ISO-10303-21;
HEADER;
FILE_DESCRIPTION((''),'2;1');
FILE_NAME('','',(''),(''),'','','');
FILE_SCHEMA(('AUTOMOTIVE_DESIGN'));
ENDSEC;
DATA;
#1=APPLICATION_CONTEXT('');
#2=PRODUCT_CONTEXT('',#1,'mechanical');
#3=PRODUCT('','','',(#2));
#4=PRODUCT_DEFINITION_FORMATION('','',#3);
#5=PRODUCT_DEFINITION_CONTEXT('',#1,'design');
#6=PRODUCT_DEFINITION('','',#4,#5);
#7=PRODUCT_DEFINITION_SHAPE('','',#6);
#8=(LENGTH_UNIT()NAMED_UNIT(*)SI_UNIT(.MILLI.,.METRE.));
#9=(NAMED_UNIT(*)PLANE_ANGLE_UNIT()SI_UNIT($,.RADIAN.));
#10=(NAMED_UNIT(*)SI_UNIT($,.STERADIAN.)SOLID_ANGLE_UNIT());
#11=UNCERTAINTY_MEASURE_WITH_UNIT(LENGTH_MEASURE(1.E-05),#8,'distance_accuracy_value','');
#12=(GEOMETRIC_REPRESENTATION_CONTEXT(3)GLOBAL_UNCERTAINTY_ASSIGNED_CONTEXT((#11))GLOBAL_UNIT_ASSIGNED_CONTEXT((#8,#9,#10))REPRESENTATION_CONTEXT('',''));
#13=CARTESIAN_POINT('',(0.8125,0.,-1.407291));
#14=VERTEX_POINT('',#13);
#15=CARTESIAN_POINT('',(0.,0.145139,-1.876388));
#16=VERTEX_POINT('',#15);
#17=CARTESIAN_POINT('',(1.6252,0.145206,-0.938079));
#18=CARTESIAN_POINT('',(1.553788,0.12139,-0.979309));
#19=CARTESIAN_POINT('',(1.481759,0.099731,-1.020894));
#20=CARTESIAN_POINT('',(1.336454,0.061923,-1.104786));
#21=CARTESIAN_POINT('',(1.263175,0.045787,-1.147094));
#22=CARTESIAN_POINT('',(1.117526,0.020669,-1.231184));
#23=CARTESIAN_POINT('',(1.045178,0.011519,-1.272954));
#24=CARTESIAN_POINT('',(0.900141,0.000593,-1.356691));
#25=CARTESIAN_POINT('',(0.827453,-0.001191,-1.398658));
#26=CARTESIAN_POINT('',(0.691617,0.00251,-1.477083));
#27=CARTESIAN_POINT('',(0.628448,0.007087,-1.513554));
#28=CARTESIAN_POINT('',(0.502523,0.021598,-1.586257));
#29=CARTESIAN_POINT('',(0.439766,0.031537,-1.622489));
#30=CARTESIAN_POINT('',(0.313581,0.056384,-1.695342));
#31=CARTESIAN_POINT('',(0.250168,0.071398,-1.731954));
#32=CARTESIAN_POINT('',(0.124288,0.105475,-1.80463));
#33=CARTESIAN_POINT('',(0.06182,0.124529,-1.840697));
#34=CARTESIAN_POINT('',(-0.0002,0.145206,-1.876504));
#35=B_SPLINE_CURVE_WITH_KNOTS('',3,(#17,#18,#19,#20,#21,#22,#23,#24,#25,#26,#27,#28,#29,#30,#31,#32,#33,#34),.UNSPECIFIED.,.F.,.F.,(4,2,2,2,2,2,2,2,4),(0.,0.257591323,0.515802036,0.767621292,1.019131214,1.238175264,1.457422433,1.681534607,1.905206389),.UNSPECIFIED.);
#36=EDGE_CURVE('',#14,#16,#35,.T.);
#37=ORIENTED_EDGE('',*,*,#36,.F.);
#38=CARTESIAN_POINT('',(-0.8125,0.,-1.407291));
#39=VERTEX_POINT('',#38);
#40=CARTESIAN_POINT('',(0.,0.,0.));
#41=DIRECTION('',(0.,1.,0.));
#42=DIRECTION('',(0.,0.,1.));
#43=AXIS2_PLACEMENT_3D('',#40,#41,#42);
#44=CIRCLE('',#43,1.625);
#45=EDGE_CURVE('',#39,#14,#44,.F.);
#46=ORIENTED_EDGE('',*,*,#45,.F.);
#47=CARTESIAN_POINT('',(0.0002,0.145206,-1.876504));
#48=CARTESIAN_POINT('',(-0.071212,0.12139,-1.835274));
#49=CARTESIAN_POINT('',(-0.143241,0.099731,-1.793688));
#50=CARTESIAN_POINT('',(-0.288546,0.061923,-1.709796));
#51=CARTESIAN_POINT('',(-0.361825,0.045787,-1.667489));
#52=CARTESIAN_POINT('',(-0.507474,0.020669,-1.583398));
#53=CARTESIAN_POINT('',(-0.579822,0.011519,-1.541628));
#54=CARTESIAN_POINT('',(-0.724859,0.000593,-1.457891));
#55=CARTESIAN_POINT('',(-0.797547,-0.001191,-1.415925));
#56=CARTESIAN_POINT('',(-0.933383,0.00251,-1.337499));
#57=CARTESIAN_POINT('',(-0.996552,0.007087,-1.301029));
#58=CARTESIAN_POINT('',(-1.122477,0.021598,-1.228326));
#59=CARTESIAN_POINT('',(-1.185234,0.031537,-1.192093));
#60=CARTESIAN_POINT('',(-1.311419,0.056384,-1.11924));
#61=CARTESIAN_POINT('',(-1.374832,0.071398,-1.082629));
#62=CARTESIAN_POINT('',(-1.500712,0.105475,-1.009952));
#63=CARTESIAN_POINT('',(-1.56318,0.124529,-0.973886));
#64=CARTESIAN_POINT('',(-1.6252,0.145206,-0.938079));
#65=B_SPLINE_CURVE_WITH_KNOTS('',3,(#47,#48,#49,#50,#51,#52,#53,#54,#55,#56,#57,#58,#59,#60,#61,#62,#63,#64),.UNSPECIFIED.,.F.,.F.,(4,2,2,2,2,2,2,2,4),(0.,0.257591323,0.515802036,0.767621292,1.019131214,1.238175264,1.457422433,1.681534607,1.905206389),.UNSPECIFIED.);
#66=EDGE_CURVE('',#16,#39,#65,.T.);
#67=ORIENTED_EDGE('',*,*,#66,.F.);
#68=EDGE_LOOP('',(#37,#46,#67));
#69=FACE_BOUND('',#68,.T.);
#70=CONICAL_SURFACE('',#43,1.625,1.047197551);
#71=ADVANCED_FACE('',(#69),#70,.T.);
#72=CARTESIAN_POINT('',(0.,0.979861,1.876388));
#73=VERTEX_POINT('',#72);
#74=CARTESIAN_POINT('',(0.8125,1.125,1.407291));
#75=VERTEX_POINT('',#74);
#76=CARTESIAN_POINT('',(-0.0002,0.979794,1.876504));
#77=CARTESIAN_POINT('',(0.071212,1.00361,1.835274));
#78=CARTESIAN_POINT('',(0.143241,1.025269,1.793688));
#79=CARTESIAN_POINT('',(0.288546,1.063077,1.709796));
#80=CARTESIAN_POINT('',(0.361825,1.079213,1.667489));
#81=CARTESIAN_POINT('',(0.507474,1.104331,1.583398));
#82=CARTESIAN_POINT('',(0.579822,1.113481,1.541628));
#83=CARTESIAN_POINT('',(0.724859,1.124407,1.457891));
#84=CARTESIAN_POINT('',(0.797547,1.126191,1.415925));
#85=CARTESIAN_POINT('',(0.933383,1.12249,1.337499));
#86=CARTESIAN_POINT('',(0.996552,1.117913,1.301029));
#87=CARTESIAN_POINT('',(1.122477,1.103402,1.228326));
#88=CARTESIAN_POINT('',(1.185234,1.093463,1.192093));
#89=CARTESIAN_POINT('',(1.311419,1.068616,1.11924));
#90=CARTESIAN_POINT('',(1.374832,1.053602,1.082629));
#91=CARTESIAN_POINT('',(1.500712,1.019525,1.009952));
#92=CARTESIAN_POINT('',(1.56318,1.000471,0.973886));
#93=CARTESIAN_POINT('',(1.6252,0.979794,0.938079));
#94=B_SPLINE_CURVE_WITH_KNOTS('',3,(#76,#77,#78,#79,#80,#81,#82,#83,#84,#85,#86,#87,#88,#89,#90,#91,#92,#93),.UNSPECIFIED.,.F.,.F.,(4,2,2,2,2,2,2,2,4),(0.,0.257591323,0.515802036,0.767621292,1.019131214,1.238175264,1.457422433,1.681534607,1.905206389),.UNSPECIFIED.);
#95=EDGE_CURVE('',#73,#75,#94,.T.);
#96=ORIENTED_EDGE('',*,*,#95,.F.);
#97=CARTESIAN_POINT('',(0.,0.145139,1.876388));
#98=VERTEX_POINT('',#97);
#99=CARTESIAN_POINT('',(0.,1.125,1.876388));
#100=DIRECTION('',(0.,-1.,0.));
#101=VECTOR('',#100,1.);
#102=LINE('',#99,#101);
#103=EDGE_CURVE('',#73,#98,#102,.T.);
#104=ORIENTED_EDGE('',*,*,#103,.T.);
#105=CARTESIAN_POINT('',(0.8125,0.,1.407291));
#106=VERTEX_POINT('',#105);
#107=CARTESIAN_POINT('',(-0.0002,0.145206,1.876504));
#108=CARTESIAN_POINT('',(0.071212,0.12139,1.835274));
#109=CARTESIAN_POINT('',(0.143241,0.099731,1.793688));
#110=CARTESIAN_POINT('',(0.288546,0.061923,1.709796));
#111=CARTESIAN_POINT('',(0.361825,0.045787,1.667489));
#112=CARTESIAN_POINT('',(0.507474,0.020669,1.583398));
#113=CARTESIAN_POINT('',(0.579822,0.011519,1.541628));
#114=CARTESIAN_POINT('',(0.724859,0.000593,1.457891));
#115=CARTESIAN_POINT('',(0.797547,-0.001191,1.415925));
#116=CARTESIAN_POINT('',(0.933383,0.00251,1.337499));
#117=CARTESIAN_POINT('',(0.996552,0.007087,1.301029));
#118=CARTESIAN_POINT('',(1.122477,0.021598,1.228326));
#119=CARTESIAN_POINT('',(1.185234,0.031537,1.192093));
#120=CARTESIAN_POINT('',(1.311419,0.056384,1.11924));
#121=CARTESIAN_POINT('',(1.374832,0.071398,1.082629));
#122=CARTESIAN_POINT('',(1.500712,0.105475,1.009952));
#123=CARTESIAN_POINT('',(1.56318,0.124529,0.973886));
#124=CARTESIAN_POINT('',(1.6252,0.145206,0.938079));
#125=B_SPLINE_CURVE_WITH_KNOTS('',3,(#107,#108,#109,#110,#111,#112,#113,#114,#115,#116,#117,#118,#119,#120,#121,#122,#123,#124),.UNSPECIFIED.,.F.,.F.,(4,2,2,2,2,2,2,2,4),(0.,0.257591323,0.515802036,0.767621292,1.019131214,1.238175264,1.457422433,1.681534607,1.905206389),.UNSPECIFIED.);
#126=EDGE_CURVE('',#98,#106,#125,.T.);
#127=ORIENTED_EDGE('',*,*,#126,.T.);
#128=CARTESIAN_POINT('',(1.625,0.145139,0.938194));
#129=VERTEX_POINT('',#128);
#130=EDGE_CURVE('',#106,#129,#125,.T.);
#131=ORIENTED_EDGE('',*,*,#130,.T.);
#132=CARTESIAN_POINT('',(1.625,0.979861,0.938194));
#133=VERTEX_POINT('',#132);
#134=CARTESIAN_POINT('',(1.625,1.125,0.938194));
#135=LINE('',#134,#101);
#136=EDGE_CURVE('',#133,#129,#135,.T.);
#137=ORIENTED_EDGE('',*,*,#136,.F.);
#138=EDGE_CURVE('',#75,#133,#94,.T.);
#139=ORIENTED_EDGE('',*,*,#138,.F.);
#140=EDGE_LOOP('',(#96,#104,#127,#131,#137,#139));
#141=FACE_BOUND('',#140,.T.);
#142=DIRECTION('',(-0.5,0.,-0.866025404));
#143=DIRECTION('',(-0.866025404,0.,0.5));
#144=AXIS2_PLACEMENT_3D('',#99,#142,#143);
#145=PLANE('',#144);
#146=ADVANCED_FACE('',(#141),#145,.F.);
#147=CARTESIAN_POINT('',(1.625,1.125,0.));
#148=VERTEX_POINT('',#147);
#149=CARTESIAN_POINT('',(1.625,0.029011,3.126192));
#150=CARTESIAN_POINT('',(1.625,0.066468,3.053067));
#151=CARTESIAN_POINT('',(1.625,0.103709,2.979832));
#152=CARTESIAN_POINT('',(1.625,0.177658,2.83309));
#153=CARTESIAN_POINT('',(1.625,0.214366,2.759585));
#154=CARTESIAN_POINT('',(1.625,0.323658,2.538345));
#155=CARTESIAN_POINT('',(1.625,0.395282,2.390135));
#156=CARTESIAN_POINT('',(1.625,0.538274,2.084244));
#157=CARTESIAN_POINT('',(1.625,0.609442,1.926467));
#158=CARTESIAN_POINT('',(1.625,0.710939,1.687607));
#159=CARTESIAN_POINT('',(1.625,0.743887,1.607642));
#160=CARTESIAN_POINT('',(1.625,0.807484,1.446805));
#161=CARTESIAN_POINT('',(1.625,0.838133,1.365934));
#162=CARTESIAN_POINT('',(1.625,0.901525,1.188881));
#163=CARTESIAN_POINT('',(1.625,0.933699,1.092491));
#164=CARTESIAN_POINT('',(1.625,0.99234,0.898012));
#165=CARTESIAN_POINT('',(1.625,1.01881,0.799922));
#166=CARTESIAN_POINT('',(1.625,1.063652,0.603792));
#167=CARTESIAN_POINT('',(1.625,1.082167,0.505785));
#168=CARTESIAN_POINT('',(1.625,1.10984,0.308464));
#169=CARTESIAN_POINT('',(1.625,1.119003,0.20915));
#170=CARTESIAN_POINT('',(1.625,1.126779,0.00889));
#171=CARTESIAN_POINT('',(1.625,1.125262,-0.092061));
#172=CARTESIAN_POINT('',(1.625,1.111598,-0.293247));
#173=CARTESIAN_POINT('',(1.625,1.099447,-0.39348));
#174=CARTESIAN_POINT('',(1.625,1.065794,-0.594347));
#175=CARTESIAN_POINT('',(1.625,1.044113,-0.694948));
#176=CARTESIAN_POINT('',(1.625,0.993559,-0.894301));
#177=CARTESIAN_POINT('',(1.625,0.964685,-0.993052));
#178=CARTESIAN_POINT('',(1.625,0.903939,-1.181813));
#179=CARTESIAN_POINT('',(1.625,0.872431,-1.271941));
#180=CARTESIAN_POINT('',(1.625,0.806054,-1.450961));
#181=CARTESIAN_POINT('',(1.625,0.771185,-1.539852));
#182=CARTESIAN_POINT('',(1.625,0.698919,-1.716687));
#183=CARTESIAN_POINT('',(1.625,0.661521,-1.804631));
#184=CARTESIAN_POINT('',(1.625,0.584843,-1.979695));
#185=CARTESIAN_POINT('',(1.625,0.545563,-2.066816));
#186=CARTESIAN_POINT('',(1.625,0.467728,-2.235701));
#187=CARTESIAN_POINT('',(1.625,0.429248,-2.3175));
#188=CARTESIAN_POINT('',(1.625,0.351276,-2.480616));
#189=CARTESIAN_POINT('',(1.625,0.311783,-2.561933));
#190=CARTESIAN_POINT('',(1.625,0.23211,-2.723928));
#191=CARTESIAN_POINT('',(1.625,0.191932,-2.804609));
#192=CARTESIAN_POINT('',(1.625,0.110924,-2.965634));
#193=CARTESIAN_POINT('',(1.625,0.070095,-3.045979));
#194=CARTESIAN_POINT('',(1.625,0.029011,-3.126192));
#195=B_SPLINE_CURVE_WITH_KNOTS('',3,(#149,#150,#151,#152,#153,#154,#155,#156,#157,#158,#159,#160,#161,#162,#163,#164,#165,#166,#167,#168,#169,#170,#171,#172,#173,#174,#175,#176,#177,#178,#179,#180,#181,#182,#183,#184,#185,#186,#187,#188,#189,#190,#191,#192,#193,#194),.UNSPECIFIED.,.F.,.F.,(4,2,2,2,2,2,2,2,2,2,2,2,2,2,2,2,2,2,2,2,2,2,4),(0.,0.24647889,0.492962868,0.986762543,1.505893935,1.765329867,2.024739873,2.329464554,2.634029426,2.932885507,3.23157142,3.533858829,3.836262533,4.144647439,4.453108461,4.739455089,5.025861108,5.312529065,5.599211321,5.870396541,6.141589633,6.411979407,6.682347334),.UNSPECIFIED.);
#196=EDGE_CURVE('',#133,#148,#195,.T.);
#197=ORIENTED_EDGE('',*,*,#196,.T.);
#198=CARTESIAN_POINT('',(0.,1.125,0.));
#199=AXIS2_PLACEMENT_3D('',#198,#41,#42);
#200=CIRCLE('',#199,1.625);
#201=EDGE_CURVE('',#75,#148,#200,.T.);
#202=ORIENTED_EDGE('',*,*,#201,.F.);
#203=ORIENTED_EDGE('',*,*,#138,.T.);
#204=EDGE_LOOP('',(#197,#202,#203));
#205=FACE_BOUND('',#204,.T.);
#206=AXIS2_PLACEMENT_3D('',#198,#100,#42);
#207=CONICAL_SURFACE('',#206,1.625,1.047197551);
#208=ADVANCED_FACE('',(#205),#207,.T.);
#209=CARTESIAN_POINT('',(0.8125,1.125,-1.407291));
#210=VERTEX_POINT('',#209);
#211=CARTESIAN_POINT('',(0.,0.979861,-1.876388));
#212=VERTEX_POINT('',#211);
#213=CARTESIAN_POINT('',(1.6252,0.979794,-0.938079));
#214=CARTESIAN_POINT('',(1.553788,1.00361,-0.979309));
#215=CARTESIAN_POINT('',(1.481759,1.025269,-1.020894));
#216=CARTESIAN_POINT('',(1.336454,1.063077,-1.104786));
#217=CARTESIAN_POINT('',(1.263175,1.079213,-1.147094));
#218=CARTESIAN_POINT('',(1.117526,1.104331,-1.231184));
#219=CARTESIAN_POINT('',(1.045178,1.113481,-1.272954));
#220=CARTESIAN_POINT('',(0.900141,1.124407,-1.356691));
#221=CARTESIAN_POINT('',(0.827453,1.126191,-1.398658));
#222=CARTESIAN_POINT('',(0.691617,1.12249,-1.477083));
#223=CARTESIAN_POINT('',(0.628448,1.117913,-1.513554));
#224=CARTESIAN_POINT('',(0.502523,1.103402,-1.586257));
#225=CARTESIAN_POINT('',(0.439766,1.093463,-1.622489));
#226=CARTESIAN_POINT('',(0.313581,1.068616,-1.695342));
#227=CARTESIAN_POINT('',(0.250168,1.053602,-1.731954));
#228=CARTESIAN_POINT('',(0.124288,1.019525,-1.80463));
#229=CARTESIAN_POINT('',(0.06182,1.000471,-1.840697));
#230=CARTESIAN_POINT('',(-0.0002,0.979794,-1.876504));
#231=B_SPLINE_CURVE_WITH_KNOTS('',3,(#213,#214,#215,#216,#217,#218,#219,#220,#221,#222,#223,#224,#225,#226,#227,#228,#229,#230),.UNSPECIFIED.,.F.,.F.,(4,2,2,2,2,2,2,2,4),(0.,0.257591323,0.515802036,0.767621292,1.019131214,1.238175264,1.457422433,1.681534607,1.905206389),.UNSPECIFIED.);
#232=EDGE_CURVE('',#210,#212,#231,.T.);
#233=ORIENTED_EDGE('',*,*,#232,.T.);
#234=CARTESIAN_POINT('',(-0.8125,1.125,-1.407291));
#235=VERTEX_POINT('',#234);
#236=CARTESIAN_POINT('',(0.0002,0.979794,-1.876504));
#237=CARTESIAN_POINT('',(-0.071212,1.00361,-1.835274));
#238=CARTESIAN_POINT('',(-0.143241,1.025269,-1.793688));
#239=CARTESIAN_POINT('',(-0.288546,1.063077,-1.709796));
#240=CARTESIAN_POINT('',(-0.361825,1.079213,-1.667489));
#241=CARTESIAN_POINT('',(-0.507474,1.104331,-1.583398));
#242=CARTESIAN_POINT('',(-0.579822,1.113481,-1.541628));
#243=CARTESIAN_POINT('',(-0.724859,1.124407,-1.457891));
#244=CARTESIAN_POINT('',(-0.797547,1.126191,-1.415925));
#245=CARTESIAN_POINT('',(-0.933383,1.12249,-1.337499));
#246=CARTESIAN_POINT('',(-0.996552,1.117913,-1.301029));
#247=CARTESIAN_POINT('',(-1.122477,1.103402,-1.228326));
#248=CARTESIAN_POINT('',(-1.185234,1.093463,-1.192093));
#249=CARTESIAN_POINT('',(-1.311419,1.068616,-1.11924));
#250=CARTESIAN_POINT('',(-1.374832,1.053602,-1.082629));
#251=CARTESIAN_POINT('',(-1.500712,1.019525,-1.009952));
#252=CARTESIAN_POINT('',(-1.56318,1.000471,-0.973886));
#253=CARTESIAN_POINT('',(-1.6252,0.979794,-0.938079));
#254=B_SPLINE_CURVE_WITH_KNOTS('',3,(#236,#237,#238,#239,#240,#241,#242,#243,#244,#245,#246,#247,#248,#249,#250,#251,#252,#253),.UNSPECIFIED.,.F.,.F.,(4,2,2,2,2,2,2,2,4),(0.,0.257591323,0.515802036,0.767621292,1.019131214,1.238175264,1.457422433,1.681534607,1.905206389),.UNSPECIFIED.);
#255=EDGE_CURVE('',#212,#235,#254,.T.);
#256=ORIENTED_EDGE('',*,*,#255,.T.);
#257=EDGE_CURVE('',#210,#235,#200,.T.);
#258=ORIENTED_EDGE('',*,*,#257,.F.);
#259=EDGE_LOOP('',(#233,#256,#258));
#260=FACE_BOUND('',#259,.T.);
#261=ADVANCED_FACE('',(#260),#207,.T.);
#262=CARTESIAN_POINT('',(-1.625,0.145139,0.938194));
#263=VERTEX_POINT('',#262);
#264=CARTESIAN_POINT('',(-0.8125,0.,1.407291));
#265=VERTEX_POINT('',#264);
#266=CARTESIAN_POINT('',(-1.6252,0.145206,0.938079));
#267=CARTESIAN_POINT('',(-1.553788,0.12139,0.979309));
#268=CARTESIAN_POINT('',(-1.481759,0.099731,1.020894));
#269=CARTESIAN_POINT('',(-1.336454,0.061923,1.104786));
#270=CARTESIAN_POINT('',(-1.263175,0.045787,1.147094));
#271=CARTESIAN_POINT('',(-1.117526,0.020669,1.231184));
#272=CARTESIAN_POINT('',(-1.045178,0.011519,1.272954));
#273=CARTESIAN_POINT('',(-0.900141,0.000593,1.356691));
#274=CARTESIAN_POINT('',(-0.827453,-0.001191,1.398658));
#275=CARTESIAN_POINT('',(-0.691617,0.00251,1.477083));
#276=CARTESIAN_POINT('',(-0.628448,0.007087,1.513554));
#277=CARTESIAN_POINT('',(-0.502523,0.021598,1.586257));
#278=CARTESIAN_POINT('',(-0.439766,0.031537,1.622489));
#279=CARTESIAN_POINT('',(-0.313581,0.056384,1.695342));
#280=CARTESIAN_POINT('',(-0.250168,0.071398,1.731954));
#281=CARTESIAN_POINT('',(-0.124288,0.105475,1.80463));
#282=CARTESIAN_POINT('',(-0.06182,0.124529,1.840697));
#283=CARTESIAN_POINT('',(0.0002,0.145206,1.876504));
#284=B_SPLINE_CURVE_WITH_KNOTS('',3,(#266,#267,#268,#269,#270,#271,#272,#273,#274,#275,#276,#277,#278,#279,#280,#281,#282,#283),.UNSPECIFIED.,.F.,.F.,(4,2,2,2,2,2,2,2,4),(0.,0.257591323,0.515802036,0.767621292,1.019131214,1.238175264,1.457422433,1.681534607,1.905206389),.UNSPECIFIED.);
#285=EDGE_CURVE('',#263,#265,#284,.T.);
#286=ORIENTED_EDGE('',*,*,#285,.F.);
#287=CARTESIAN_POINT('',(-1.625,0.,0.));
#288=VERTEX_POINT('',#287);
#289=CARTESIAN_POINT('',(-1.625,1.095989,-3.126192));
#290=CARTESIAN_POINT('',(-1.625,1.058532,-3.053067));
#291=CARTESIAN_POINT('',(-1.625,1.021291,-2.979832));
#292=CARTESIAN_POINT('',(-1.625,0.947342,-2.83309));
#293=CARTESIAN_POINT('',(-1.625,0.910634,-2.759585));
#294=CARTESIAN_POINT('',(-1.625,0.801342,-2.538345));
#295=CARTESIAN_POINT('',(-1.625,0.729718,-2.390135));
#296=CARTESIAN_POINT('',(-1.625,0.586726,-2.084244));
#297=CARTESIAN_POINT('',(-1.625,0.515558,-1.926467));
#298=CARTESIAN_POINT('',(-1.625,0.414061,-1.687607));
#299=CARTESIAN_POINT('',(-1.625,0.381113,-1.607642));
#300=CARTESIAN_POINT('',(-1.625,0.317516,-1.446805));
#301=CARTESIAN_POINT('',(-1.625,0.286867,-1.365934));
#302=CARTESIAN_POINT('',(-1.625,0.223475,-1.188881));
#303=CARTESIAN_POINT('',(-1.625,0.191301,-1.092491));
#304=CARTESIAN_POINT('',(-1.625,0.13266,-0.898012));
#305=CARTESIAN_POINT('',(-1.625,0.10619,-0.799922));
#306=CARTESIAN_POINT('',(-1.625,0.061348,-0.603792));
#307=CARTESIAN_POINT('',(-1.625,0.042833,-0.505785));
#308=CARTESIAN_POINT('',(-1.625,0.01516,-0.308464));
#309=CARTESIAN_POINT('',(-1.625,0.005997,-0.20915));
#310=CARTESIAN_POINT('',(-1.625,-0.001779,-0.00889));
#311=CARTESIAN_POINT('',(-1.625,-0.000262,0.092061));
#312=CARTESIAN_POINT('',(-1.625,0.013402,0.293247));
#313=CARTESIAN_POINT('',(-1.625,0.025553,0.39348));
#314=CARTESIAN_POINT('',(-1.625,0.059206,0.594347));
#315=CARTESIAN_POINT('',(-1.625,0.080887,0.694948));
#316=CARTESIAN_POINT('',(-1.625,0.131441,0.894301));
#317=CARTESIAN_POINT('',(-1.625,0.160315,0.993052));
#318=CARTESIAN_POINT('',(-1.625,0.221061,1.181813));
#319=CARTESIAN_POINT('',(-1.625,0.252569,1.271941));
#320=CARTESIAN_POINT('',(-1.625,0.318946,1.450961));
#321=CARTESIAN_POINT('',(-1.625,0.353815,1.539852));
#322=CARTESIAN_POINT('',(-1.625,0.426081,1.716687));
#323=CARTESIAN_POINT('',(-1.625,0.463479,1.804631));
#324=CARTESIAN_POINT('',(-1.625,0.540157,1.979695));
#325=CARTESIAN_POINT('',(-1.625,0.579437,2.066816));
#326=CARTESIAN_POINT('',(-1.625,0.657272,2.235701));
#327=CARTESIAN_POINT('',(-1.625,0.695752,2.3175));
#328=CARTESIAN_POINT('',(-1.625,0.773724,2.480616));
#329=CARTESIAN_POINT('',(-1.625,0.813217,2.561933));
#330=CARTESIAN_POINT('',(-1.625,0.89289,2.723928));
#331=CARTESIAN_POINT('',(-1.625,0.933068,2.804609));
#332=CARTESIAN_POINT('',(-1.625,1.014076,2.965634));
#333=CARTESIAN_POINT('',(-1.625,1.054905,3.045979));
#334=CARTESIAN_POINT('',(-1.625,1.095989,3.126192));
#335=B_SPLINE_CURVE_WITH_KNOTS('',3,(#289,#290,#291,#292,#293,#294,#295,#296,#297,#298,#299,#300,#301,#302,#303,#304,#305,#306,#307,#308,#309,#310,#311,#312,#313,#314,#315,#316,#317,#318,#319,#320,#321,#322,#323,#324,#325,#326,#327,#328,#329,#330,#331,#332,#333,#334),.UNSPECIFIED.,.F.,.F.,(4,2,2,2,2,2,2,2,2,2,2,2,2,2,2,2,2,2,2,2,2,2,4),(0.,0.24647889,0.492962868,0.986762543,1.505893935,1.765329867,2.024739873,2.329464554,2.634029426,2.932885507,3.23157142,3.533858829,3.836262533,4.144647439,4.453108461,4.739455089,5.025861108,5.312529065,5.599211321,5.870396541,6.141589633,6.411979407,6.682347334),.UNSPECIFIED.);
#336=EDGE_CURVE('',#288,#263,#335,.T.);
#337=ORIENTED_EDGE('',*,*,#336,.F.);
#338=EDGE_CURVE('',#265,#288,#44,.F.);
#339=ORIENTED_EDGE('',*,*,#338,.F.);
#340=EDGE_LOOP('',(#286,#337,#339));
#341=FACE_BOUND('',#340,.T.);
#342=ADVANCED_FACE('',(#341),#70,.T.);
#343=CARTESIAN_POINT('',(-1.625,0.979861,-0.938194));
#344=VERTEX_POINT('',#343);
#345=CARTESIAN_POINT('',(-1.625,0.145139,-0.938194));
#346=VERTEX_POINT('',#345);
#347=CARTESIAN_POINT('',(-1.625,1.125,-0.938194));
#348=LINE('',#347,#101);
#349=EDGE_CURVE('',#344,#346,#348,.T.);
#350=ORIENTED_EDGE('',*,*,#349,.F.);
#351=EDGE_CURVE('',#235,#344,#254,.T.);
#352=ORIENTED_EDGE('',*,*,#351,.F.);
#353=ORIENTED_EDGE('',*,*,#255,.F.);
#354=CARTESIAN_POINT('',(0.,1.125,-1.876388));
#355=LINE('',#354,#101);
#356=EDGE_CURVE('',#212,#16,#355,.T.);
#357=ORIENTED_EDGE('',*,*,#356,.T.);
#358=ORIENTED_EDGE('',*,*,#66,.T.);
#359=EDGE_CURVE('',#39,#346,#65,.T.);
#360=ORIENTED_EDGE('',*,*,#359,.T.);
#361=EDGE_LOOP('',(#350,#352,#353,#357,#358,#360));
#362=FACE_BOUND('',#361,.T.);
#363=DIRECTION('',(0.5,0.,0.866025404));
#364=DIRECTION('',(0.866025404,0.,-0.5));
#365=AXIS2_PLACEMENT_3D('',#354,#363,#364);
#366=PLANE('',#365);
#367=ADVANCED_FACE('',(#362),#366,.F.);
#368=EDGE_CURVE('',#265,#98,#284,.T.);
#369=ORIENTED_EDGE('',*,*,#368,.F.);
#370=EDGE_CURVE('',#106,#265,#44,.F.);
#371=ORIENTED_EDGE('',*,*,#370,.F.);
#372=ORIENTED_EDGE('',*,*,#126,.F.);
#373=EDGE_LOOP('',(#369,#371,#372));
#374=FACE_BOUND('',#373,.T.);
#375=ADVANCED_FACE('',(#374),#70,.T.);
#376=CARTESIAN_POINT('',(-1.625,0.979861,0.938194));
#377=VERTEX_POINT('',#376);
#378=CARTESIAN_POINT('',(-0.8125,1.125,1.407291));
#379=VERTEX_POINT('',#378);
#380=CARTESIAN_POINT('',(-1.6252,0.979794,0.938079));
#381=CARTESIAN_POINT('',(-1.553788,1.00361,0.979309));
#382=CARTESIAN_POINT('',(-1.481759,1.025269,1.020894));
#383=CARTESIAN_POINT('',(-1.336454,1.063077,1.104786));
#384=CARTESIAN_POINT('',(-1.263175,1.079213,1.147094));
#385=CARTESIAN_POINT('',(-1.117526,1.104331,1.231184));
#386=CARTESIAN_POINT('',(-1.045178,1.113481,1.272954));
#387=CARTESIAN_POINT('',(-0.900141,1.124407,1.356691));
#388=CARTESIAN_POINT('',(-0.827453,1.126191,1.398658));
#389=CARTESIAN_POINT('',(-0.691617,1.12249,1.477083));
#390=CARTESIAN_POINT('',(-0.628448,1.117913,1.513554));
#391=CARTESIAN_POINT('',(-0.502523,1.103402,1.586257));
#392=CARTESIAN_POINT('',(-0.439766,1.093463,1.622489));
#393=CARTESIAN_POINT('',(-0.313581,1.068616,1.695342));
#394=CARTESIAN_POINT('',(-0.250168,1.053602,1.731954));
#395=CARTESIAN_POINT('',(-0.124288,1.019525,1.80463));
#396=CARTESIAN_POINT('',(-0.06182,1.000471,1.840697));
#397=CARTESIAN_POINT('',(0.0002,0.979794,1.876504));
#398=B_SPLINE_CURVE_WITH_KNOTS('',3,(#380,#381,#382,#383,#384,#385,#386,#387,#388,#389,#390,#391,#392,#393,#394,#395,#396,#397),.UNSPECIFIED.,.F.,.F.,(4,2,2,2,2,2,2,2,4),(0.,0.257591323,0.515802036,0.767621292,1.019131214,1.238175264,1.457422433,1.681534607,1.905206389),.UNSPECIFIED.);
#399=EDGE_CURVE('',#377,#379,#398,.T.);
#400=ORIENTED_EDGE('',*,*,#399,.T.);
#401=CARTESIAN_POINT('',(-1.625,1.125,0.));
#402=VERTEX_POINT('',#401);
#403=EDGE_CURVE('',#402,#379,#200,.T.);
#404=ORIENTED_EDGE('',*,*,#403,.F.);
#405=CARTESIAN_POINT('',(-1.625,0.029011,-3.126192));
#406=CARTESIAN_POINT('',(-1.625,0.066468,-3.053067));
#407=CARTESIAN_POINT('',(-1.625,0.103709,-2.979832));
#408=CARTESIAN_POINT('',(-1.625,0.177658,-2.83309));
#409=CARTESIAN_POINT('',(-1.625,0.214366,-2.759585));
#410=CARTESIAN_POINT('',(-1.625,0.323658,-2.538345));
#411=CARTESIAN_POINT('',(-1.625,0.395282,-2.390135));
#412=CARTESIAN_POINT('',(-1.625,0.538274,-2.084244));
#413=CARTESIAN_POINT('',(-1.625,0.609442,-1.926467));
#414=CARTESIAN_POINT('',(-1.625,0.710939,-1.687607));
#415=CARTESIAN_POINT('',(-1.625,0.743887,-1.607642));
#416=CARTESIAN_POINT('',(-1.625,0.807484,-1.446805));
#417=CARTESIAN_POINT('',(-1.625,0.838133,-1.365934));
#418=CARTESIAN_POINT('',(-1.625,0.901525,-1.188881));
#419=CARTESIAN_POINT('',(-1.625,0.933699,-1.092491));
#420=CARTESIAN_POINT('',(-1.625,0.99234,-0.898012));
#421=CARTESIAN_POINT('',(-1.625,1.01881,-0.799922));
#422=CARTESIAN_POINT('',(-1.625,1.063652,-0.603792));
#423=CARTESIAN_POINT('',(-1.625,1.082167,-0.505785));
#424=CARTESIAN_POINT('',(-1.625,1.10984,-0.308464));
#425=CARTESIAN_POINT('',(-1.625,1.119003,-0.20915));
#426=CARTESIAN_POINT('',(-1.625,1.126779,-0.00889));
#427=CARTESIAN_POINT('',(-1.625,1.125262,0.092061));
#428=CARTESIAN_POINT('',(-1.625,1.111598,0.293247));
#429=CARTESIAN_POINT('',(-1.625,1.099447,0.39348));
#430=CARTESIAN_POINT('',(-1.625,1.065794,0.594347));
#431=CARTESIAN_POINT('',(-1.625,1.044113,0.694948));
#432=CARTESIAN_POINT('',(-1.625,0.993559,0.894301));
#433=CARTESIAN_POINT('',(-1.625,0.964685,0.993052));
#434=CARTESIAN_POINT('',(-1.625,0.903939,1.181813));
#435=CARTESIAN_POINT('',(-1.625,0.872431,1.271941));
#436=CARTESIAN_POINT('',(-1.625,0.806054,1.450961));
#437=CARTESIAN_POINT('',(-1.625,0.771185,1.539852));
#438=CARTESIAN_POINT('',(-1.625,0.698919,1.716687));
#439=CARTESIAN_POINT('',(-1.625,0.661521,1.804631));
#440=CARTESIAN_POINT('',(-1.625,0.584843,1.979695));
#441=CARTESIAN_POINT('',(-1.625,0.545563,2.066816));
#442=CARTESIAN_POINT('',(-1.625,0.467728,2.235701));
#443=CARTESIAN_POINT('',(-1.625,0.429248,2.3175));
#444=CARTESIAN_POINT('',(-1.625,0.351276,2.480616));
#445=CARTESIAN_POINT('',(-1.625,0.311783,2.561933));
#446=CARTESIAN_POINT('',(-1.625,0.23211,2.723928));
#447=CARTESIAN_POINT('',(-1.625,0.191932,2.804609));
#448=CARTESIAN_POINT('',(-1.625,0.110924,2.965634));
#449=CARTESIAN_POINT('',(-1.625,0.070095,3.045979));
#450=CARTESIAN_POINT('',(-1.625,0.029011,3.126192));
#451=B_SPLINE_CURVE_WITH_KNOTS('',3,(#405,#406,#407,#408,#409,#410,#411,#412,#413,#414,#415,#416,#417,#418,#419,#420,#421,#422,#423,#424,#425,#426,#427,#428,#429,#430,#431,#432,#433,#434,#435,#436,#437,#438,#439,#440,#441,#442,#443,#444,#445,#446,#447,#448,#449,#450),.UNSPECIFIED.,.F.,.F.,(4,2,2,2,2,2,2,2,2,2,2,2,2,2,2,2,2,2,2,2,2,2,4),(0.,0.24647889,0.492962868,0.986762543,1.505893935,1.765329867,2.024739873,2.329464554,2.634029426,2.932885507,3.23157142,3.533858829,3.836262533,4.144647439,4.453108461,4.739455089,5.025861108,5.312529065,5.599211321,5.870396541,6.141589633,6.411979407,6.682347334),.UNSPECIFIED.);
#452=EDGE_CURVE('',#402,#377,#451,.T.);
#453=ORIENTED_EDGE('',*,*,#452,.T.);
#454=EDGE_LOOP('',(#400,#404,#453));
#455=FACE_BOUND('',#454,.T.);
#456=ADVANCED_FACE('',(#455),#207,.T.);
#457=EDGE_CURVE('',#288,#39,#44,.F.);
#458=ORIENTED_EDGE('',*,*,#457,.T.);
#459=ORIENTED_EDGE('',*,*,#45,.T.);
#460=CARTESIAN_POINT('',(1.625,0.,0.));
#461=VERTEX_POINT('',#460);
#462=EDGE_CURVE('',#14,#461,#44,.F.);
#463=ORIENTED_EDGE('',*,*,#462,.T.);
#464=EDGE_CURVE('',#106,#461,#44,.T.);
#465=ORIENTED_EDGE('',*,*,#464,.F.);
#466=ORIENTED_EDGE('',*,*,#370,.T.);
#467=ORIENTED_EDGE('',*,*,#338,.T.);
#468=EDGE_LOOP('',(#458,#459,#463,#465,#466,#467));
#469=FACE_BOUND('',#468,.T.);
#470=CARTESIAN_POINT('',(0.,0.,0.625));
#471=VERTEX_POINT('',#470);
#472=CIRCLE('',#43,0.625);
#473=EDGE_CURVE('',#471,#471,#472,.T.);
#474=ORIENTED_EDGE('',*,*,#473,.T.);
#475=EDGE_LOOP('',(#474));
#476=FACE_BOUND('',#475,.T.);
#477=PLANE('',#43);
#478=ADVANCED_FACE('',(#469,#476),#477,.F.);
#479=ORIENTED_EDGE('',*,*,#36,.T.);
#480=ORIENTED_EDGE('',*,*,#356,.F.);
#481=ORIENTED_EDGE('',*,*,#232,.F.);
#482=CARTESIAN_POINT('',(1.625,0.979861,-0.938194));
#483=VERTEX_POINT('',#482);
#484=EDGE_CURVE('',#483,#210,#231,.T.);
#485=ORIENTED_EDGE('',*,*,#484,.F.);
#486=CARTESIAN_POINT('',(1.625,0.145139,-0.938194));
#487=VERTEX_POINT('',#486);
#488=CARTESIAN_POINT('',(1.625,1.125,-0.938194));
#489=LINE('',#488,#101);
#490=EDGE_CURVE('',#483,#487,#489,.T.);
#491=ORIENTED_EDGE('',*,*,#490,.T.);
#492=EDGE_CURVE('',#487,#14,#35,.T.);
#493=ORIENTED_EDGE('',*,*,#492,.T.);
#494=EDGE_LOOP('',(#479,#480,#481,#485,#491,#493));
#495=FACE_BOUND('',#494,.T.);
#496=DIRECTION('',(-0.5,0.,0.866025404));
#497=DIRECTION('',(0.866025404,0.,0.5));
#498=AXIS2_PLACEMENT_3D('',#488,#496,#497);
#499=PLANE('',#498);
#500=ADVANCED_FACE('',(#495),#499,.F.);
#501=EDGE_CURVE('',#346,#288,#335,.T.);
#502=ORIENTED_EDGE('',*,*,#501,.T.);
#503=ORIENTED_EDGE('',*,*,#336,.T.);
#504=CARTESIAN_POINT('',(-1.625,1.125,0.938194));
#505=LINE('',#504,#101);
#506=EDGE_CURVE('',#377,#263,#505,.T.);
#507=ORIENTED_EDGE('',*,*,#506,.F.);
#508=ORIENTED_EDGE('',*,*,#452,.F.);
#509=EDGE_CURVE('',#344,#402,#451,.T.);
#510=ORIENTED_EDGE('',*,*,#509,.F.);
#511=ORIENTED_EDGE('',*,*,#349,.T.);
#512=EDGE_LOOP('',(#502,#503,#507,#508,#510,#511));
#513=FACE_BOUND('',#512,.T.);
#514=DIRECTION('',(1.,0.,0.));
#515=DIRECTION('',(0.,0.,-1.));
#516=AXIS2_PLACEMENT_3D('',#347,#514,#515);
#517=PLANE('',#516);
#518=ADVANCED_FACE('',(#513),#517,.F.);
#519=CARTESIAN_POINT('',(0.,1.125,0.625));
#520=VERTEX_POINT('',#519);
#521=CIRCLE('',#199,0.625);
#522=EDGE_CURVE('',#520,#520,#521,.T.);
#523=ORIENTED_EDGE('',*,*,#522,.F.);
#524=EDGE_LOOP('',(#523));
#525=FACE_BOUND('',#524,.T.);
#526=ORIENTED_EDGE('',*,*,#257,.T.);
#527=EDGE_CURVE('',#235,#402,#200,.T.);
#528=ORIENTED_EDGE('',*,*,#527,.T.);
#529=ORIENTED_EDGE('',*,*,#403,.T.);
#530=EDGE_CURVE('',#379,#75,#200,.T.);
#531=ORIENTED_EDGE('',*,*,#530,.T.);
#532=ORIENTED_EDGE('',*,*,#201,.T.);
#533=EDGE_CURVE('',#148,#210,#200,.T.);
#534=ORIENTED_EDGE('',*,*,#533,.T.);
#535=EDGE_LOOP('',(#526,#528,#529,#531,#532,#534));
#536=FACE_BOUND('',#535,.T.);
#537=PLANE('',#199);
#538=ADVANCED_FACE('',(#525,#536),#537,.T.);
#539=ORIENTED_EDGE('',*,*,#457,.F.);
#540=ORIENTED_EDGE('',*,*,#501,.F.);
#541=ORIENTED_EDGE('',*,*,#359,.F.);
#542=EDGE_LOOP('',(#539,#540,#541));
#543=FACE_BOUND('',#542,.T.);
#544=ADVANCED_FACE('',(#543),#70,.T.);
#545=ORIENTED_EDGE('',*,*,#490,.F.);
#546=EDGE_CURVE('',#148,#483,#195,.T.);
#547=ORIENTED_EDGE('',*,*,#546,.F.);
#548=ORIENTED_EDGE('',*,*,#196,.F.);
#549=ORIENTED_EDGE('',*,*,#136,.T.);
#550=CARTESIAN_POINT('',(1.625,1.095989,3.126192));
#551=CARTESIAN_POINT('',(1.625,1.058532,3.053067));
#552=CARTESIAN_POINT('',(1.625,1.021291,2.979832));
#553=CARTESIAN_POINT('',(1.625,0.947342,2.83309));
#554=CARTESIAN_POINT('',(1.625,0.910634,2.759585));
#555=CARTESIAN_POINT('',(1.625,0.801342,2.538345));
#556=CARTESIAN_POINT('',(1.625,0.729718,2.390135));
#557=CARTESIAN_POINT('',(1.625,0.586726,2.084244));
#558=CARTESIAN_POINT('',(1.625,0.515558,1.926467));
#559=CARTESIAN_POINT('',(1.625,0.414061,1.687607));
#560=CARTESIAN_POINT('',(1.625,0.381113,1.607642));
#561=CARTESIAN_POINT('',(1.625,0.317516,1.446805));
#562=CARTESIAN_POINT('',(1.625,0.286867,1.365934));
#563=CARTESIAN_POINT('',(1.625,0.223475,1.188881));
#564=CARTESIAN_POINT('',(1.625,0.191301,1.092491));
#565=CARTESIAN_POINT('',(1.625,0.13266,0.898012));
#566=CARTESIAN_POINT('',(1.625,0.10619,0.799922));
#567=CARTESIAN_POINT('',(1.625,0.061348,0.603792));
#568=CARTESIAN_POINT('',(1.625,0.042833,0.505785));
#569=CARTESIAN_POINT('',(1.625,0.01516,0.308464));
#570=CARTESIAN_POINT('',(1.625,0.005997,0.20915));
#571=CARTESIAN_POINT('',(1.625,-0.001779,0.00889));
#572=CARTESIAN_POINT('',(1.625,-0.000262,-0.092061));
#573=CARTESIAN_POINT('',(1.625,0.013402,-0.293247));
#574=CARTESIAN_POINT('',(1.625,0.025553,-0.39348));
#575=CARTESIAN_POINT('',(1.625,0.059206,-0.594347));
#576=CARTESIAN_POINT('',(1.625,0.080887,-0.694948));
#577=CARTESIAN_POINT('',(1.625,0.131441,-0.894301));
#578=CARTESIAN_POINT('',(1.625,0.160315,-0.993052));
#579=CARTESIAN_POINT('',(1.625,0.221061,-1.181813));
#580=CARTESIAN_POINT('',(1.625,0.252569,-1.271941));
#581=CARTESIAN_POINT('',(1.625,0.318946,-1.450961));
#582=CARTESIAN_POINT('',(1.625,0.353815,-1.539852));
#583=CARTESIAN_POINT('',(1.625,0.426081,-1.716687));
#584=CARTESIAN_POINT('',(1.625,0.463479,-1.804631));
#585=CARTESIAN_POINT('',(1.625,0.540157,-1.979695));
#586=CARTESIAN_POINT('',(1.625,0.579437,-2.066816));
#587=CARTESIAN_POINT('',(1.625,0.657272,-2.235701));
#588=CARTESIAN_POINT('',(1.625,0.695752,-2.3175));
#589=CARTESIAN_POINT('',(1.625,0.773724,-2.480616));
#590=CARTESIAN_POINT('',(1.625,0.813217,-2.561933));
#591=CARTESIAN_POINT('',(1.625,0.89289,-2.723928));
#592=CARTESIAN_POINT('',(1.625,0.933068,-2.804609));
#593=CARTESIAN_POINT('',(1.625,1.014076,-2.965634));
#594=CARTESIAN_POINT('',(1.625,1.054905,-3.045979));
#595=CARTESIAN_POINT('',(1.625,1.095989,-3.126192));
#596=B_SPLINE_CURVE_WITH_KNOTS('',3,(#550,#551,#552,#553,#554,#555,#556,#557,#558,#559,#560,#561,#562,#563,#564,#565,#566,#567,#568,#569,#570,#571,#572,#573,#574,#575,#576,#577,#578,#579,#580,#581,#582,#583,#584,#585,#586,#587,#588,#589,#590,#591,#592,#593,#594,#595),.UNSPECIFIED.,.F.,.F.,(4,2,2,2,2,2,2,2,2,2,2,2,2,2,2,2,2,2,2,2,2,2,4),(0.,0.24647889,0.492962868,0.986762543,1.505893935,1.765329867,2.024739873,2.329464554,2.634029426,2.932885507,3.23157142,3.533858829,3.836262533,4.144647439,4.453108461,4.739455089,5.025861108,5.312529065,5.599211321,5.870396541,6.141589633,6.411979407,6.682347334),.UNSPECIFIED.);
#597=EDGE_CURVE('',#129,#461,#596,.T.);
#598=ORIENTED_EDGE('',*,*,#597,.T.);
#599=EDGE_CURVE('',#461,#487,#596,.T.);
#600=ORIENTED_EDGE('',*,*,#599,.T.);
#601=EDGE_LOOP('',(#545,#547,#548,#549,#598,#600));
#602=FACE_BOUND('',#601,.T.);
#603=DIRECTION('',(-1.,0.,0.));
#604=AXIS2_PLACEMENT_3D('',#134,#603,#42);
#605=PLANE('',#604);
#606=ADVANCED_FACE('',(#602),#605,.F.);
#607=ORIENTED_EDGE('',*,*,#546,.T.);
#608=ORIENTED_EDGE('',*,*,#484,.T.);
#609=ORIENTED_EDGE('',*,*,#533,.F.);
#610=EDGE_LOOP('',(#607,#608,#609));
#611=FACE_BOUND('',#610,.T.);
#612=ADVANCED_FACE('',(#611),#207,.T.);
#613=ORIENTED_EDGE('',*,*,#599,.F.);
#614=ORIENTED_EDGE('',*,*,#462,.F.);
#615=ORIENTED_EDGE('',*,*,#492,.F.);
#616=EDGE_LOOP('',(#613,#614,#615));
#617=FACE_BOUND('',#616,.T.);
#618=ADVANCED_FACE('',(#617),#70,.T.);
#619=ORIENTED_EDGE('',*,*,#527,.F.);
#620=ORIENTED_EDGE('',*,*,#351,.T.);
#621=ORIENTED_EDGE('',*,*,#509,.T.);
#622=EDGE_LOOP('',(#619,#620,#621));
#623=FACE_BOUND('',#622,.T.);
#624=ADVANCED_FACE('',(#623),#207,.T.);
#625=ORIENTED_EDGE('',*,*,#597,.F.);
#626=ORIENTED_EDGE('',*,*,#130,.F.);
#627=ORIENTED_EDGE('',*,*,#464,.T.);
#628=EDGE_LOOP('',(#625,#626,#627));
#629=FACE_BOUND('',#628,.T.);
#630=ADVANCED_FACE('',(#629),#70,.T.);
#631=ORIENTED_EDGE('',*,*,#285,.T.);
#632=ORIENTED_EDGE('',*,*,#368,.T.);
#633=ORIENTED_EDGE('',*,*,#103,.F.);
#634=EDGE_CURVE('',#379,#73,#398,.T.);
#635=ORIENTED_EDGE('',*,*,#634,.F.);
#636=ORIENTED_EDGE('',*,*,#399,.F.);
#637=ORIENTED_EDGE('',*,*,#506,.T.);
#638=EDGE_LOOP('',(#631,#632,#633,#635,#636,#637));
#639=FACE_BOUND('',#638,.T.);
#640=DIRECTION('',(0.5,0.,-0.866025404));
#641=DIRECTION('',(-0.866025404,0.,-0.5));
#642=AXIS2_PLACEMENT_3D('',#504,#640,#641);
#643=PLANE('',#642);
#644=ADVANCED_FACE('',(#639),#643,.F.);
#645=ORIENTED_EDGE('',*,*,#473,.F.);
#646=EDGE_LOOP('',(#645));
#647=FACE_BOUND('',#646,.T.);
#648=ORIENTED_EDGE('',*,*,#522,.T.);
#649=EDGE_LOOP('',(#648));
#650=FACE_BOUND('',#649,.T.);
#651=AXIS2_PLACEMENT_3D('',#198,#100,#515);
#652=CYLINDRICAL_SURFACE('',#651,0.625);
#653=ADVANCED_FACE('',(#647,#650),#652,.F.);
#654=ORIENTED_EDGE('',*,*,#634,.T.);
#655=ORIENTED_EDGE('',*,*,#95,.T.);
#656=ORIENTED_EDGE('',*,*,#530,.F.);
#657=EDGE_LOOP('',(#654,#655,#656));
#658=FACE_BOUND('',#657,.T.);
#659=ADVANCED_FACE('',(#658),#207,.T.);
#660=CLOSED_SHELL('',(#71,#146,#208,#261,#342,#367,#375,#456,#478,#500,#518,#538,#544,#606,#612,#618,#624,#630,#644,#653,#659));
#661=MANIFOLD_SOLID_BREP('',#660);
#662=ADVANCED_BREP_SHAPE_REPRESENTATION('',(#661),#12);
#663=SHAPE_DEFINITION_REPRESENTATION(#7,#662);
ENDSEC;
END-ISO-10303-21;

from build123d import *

# Parameters (mm, degrees)
SKETCH1_R               = 0.625
BOSS_EXTRUDE1_DEPTH     = 1.125
SKETCH2_OUTSIDE_W       = 13.196
SKETCH2_OUTSIDE_H       = 13.698
SKETCH2_OUTSIDE_R       = 1.625
CUT_EXTRUDE1_DEPTH      = 2
CUT_EXTRUDE1_DRAFT      = -60
MIRROR1_COPY_1_SKETCH_W = 13.196
MIRROR1_COPY_1_SKETCH_H = 13.698
MIRROR1_COPY_1_SKETCH_R = 1.625
MIRROR1_COPY_1_DEPTH    = 2
MIRROR1_COPY_1_DRAFT    = -60


with BuildPart() as part:
    # Sketch1 → Boss-Extrude1 (new body)
    with BuildSketch(Plane(origin=(0, 0, 0), x_dir=(1, 0, 0), z_dir=(0, 1, 0))):
        Polygon((0, 1.876388375), (-1.625, 0.938194187), (-1.625, -0.938194187), (0, -1.876388375), (1.625, -0.938194187), (1.625, 0.938194187), align=None)
        with Locations(Location((0, 0, 0), (0, 0, 270))):
            Circle(SKETCH1_R, mode=Mode.SUBTRACT)
    extrude(amount=BOSS_EXTRUDE1_DEPTH)


with BuildPart() as cut_extrude1_tool:
    # Sketch2 outside → Cut-Extrude1 (with draft: the straight prism first)
    with BuildSketch(Plane(origin=(0, 1.125, 0), x_dir=(1, 0, 0), z_dir=(0, 1, 0))):
        Rectangle(SKETCH2_OUTSIDE_W, SKETCH2_OUTSIDE_H)
        Circle(SKETCH2_OUTSIDE_R, mode=Mode.SUBTRACT)
    extrude(amount=-CUT_EXTRUDE1_DEPTH)
    # Cut-Extrude1: the draft: its side faces are tilted about the plane it starts from
    cut_extrude1_sides = [cut_extrude1_tool.faces().sort_by_distance(p)[0] for p in [
        (0, 0.125, 6.849),
        (6.598, 0.125, 0),
        (0, 0.125, -6.849),
        (-6.598, 0.125, 0),
        (-1.625, 0.125, 0),
    ]]
    draft(cut_extrude1_sides, Plane(origin=(0, 1.125, 0), x_dir=(1, 0, 0), z_dir=(0, 1, 0)), CUT_EXTRUDE1_DRAFT)


with BuildPart() as part_1:
    add(part.part)

    # Cut-Extrude1: cut by cut_extrude1_tool
    add(cut_extrude1_tool.part, mode=Mode.SUBTRACT)


with BuildPart() as mirror1_copy_1_tool:
    # Mirror1 copy 1 sketch → Mirror1 copy 1 (with draft: the straight prism first)
    with BuildSketch(Plane.XZ):
        Rectangle(MIRROR1_COPY_1_SKETCH_W, MIRROR1_COPY_1_SKETCH_H)
        Circle(MIRROR1_COPY_1_SKETCH_R, mode=Mode.SUBTRACT)
    extrude(amount=-MIRROR1_COPY_1_DEPTH)
    # Mirror1 copy 1: the draft: its side faces are tilted about the plane it starts from
    mirror1_copy_1_sides = [mirror1_copy_1_tool.faces().sort_by_distance(p)[0] for p in [
        (0, 1, 6.849),
        (6.598, 1, 0),
        (0, 1, -6.849),
        (-6.598, 1, 0),
        (-1.625, 1, 0),
    ]]
    draft(mirror1_copy_1_sides, Plane.XZ, MIRROR1_COPY_1_DRAFT)


with BuildPart() as part_2:
    add(part_1.part)

    # Mirror1 copy 1: cut by mirror1_copy_1_tool
    add(mirror1_copy_1_tool.part, mode=Mode.SUBTRACT)


solid = part_2.part
